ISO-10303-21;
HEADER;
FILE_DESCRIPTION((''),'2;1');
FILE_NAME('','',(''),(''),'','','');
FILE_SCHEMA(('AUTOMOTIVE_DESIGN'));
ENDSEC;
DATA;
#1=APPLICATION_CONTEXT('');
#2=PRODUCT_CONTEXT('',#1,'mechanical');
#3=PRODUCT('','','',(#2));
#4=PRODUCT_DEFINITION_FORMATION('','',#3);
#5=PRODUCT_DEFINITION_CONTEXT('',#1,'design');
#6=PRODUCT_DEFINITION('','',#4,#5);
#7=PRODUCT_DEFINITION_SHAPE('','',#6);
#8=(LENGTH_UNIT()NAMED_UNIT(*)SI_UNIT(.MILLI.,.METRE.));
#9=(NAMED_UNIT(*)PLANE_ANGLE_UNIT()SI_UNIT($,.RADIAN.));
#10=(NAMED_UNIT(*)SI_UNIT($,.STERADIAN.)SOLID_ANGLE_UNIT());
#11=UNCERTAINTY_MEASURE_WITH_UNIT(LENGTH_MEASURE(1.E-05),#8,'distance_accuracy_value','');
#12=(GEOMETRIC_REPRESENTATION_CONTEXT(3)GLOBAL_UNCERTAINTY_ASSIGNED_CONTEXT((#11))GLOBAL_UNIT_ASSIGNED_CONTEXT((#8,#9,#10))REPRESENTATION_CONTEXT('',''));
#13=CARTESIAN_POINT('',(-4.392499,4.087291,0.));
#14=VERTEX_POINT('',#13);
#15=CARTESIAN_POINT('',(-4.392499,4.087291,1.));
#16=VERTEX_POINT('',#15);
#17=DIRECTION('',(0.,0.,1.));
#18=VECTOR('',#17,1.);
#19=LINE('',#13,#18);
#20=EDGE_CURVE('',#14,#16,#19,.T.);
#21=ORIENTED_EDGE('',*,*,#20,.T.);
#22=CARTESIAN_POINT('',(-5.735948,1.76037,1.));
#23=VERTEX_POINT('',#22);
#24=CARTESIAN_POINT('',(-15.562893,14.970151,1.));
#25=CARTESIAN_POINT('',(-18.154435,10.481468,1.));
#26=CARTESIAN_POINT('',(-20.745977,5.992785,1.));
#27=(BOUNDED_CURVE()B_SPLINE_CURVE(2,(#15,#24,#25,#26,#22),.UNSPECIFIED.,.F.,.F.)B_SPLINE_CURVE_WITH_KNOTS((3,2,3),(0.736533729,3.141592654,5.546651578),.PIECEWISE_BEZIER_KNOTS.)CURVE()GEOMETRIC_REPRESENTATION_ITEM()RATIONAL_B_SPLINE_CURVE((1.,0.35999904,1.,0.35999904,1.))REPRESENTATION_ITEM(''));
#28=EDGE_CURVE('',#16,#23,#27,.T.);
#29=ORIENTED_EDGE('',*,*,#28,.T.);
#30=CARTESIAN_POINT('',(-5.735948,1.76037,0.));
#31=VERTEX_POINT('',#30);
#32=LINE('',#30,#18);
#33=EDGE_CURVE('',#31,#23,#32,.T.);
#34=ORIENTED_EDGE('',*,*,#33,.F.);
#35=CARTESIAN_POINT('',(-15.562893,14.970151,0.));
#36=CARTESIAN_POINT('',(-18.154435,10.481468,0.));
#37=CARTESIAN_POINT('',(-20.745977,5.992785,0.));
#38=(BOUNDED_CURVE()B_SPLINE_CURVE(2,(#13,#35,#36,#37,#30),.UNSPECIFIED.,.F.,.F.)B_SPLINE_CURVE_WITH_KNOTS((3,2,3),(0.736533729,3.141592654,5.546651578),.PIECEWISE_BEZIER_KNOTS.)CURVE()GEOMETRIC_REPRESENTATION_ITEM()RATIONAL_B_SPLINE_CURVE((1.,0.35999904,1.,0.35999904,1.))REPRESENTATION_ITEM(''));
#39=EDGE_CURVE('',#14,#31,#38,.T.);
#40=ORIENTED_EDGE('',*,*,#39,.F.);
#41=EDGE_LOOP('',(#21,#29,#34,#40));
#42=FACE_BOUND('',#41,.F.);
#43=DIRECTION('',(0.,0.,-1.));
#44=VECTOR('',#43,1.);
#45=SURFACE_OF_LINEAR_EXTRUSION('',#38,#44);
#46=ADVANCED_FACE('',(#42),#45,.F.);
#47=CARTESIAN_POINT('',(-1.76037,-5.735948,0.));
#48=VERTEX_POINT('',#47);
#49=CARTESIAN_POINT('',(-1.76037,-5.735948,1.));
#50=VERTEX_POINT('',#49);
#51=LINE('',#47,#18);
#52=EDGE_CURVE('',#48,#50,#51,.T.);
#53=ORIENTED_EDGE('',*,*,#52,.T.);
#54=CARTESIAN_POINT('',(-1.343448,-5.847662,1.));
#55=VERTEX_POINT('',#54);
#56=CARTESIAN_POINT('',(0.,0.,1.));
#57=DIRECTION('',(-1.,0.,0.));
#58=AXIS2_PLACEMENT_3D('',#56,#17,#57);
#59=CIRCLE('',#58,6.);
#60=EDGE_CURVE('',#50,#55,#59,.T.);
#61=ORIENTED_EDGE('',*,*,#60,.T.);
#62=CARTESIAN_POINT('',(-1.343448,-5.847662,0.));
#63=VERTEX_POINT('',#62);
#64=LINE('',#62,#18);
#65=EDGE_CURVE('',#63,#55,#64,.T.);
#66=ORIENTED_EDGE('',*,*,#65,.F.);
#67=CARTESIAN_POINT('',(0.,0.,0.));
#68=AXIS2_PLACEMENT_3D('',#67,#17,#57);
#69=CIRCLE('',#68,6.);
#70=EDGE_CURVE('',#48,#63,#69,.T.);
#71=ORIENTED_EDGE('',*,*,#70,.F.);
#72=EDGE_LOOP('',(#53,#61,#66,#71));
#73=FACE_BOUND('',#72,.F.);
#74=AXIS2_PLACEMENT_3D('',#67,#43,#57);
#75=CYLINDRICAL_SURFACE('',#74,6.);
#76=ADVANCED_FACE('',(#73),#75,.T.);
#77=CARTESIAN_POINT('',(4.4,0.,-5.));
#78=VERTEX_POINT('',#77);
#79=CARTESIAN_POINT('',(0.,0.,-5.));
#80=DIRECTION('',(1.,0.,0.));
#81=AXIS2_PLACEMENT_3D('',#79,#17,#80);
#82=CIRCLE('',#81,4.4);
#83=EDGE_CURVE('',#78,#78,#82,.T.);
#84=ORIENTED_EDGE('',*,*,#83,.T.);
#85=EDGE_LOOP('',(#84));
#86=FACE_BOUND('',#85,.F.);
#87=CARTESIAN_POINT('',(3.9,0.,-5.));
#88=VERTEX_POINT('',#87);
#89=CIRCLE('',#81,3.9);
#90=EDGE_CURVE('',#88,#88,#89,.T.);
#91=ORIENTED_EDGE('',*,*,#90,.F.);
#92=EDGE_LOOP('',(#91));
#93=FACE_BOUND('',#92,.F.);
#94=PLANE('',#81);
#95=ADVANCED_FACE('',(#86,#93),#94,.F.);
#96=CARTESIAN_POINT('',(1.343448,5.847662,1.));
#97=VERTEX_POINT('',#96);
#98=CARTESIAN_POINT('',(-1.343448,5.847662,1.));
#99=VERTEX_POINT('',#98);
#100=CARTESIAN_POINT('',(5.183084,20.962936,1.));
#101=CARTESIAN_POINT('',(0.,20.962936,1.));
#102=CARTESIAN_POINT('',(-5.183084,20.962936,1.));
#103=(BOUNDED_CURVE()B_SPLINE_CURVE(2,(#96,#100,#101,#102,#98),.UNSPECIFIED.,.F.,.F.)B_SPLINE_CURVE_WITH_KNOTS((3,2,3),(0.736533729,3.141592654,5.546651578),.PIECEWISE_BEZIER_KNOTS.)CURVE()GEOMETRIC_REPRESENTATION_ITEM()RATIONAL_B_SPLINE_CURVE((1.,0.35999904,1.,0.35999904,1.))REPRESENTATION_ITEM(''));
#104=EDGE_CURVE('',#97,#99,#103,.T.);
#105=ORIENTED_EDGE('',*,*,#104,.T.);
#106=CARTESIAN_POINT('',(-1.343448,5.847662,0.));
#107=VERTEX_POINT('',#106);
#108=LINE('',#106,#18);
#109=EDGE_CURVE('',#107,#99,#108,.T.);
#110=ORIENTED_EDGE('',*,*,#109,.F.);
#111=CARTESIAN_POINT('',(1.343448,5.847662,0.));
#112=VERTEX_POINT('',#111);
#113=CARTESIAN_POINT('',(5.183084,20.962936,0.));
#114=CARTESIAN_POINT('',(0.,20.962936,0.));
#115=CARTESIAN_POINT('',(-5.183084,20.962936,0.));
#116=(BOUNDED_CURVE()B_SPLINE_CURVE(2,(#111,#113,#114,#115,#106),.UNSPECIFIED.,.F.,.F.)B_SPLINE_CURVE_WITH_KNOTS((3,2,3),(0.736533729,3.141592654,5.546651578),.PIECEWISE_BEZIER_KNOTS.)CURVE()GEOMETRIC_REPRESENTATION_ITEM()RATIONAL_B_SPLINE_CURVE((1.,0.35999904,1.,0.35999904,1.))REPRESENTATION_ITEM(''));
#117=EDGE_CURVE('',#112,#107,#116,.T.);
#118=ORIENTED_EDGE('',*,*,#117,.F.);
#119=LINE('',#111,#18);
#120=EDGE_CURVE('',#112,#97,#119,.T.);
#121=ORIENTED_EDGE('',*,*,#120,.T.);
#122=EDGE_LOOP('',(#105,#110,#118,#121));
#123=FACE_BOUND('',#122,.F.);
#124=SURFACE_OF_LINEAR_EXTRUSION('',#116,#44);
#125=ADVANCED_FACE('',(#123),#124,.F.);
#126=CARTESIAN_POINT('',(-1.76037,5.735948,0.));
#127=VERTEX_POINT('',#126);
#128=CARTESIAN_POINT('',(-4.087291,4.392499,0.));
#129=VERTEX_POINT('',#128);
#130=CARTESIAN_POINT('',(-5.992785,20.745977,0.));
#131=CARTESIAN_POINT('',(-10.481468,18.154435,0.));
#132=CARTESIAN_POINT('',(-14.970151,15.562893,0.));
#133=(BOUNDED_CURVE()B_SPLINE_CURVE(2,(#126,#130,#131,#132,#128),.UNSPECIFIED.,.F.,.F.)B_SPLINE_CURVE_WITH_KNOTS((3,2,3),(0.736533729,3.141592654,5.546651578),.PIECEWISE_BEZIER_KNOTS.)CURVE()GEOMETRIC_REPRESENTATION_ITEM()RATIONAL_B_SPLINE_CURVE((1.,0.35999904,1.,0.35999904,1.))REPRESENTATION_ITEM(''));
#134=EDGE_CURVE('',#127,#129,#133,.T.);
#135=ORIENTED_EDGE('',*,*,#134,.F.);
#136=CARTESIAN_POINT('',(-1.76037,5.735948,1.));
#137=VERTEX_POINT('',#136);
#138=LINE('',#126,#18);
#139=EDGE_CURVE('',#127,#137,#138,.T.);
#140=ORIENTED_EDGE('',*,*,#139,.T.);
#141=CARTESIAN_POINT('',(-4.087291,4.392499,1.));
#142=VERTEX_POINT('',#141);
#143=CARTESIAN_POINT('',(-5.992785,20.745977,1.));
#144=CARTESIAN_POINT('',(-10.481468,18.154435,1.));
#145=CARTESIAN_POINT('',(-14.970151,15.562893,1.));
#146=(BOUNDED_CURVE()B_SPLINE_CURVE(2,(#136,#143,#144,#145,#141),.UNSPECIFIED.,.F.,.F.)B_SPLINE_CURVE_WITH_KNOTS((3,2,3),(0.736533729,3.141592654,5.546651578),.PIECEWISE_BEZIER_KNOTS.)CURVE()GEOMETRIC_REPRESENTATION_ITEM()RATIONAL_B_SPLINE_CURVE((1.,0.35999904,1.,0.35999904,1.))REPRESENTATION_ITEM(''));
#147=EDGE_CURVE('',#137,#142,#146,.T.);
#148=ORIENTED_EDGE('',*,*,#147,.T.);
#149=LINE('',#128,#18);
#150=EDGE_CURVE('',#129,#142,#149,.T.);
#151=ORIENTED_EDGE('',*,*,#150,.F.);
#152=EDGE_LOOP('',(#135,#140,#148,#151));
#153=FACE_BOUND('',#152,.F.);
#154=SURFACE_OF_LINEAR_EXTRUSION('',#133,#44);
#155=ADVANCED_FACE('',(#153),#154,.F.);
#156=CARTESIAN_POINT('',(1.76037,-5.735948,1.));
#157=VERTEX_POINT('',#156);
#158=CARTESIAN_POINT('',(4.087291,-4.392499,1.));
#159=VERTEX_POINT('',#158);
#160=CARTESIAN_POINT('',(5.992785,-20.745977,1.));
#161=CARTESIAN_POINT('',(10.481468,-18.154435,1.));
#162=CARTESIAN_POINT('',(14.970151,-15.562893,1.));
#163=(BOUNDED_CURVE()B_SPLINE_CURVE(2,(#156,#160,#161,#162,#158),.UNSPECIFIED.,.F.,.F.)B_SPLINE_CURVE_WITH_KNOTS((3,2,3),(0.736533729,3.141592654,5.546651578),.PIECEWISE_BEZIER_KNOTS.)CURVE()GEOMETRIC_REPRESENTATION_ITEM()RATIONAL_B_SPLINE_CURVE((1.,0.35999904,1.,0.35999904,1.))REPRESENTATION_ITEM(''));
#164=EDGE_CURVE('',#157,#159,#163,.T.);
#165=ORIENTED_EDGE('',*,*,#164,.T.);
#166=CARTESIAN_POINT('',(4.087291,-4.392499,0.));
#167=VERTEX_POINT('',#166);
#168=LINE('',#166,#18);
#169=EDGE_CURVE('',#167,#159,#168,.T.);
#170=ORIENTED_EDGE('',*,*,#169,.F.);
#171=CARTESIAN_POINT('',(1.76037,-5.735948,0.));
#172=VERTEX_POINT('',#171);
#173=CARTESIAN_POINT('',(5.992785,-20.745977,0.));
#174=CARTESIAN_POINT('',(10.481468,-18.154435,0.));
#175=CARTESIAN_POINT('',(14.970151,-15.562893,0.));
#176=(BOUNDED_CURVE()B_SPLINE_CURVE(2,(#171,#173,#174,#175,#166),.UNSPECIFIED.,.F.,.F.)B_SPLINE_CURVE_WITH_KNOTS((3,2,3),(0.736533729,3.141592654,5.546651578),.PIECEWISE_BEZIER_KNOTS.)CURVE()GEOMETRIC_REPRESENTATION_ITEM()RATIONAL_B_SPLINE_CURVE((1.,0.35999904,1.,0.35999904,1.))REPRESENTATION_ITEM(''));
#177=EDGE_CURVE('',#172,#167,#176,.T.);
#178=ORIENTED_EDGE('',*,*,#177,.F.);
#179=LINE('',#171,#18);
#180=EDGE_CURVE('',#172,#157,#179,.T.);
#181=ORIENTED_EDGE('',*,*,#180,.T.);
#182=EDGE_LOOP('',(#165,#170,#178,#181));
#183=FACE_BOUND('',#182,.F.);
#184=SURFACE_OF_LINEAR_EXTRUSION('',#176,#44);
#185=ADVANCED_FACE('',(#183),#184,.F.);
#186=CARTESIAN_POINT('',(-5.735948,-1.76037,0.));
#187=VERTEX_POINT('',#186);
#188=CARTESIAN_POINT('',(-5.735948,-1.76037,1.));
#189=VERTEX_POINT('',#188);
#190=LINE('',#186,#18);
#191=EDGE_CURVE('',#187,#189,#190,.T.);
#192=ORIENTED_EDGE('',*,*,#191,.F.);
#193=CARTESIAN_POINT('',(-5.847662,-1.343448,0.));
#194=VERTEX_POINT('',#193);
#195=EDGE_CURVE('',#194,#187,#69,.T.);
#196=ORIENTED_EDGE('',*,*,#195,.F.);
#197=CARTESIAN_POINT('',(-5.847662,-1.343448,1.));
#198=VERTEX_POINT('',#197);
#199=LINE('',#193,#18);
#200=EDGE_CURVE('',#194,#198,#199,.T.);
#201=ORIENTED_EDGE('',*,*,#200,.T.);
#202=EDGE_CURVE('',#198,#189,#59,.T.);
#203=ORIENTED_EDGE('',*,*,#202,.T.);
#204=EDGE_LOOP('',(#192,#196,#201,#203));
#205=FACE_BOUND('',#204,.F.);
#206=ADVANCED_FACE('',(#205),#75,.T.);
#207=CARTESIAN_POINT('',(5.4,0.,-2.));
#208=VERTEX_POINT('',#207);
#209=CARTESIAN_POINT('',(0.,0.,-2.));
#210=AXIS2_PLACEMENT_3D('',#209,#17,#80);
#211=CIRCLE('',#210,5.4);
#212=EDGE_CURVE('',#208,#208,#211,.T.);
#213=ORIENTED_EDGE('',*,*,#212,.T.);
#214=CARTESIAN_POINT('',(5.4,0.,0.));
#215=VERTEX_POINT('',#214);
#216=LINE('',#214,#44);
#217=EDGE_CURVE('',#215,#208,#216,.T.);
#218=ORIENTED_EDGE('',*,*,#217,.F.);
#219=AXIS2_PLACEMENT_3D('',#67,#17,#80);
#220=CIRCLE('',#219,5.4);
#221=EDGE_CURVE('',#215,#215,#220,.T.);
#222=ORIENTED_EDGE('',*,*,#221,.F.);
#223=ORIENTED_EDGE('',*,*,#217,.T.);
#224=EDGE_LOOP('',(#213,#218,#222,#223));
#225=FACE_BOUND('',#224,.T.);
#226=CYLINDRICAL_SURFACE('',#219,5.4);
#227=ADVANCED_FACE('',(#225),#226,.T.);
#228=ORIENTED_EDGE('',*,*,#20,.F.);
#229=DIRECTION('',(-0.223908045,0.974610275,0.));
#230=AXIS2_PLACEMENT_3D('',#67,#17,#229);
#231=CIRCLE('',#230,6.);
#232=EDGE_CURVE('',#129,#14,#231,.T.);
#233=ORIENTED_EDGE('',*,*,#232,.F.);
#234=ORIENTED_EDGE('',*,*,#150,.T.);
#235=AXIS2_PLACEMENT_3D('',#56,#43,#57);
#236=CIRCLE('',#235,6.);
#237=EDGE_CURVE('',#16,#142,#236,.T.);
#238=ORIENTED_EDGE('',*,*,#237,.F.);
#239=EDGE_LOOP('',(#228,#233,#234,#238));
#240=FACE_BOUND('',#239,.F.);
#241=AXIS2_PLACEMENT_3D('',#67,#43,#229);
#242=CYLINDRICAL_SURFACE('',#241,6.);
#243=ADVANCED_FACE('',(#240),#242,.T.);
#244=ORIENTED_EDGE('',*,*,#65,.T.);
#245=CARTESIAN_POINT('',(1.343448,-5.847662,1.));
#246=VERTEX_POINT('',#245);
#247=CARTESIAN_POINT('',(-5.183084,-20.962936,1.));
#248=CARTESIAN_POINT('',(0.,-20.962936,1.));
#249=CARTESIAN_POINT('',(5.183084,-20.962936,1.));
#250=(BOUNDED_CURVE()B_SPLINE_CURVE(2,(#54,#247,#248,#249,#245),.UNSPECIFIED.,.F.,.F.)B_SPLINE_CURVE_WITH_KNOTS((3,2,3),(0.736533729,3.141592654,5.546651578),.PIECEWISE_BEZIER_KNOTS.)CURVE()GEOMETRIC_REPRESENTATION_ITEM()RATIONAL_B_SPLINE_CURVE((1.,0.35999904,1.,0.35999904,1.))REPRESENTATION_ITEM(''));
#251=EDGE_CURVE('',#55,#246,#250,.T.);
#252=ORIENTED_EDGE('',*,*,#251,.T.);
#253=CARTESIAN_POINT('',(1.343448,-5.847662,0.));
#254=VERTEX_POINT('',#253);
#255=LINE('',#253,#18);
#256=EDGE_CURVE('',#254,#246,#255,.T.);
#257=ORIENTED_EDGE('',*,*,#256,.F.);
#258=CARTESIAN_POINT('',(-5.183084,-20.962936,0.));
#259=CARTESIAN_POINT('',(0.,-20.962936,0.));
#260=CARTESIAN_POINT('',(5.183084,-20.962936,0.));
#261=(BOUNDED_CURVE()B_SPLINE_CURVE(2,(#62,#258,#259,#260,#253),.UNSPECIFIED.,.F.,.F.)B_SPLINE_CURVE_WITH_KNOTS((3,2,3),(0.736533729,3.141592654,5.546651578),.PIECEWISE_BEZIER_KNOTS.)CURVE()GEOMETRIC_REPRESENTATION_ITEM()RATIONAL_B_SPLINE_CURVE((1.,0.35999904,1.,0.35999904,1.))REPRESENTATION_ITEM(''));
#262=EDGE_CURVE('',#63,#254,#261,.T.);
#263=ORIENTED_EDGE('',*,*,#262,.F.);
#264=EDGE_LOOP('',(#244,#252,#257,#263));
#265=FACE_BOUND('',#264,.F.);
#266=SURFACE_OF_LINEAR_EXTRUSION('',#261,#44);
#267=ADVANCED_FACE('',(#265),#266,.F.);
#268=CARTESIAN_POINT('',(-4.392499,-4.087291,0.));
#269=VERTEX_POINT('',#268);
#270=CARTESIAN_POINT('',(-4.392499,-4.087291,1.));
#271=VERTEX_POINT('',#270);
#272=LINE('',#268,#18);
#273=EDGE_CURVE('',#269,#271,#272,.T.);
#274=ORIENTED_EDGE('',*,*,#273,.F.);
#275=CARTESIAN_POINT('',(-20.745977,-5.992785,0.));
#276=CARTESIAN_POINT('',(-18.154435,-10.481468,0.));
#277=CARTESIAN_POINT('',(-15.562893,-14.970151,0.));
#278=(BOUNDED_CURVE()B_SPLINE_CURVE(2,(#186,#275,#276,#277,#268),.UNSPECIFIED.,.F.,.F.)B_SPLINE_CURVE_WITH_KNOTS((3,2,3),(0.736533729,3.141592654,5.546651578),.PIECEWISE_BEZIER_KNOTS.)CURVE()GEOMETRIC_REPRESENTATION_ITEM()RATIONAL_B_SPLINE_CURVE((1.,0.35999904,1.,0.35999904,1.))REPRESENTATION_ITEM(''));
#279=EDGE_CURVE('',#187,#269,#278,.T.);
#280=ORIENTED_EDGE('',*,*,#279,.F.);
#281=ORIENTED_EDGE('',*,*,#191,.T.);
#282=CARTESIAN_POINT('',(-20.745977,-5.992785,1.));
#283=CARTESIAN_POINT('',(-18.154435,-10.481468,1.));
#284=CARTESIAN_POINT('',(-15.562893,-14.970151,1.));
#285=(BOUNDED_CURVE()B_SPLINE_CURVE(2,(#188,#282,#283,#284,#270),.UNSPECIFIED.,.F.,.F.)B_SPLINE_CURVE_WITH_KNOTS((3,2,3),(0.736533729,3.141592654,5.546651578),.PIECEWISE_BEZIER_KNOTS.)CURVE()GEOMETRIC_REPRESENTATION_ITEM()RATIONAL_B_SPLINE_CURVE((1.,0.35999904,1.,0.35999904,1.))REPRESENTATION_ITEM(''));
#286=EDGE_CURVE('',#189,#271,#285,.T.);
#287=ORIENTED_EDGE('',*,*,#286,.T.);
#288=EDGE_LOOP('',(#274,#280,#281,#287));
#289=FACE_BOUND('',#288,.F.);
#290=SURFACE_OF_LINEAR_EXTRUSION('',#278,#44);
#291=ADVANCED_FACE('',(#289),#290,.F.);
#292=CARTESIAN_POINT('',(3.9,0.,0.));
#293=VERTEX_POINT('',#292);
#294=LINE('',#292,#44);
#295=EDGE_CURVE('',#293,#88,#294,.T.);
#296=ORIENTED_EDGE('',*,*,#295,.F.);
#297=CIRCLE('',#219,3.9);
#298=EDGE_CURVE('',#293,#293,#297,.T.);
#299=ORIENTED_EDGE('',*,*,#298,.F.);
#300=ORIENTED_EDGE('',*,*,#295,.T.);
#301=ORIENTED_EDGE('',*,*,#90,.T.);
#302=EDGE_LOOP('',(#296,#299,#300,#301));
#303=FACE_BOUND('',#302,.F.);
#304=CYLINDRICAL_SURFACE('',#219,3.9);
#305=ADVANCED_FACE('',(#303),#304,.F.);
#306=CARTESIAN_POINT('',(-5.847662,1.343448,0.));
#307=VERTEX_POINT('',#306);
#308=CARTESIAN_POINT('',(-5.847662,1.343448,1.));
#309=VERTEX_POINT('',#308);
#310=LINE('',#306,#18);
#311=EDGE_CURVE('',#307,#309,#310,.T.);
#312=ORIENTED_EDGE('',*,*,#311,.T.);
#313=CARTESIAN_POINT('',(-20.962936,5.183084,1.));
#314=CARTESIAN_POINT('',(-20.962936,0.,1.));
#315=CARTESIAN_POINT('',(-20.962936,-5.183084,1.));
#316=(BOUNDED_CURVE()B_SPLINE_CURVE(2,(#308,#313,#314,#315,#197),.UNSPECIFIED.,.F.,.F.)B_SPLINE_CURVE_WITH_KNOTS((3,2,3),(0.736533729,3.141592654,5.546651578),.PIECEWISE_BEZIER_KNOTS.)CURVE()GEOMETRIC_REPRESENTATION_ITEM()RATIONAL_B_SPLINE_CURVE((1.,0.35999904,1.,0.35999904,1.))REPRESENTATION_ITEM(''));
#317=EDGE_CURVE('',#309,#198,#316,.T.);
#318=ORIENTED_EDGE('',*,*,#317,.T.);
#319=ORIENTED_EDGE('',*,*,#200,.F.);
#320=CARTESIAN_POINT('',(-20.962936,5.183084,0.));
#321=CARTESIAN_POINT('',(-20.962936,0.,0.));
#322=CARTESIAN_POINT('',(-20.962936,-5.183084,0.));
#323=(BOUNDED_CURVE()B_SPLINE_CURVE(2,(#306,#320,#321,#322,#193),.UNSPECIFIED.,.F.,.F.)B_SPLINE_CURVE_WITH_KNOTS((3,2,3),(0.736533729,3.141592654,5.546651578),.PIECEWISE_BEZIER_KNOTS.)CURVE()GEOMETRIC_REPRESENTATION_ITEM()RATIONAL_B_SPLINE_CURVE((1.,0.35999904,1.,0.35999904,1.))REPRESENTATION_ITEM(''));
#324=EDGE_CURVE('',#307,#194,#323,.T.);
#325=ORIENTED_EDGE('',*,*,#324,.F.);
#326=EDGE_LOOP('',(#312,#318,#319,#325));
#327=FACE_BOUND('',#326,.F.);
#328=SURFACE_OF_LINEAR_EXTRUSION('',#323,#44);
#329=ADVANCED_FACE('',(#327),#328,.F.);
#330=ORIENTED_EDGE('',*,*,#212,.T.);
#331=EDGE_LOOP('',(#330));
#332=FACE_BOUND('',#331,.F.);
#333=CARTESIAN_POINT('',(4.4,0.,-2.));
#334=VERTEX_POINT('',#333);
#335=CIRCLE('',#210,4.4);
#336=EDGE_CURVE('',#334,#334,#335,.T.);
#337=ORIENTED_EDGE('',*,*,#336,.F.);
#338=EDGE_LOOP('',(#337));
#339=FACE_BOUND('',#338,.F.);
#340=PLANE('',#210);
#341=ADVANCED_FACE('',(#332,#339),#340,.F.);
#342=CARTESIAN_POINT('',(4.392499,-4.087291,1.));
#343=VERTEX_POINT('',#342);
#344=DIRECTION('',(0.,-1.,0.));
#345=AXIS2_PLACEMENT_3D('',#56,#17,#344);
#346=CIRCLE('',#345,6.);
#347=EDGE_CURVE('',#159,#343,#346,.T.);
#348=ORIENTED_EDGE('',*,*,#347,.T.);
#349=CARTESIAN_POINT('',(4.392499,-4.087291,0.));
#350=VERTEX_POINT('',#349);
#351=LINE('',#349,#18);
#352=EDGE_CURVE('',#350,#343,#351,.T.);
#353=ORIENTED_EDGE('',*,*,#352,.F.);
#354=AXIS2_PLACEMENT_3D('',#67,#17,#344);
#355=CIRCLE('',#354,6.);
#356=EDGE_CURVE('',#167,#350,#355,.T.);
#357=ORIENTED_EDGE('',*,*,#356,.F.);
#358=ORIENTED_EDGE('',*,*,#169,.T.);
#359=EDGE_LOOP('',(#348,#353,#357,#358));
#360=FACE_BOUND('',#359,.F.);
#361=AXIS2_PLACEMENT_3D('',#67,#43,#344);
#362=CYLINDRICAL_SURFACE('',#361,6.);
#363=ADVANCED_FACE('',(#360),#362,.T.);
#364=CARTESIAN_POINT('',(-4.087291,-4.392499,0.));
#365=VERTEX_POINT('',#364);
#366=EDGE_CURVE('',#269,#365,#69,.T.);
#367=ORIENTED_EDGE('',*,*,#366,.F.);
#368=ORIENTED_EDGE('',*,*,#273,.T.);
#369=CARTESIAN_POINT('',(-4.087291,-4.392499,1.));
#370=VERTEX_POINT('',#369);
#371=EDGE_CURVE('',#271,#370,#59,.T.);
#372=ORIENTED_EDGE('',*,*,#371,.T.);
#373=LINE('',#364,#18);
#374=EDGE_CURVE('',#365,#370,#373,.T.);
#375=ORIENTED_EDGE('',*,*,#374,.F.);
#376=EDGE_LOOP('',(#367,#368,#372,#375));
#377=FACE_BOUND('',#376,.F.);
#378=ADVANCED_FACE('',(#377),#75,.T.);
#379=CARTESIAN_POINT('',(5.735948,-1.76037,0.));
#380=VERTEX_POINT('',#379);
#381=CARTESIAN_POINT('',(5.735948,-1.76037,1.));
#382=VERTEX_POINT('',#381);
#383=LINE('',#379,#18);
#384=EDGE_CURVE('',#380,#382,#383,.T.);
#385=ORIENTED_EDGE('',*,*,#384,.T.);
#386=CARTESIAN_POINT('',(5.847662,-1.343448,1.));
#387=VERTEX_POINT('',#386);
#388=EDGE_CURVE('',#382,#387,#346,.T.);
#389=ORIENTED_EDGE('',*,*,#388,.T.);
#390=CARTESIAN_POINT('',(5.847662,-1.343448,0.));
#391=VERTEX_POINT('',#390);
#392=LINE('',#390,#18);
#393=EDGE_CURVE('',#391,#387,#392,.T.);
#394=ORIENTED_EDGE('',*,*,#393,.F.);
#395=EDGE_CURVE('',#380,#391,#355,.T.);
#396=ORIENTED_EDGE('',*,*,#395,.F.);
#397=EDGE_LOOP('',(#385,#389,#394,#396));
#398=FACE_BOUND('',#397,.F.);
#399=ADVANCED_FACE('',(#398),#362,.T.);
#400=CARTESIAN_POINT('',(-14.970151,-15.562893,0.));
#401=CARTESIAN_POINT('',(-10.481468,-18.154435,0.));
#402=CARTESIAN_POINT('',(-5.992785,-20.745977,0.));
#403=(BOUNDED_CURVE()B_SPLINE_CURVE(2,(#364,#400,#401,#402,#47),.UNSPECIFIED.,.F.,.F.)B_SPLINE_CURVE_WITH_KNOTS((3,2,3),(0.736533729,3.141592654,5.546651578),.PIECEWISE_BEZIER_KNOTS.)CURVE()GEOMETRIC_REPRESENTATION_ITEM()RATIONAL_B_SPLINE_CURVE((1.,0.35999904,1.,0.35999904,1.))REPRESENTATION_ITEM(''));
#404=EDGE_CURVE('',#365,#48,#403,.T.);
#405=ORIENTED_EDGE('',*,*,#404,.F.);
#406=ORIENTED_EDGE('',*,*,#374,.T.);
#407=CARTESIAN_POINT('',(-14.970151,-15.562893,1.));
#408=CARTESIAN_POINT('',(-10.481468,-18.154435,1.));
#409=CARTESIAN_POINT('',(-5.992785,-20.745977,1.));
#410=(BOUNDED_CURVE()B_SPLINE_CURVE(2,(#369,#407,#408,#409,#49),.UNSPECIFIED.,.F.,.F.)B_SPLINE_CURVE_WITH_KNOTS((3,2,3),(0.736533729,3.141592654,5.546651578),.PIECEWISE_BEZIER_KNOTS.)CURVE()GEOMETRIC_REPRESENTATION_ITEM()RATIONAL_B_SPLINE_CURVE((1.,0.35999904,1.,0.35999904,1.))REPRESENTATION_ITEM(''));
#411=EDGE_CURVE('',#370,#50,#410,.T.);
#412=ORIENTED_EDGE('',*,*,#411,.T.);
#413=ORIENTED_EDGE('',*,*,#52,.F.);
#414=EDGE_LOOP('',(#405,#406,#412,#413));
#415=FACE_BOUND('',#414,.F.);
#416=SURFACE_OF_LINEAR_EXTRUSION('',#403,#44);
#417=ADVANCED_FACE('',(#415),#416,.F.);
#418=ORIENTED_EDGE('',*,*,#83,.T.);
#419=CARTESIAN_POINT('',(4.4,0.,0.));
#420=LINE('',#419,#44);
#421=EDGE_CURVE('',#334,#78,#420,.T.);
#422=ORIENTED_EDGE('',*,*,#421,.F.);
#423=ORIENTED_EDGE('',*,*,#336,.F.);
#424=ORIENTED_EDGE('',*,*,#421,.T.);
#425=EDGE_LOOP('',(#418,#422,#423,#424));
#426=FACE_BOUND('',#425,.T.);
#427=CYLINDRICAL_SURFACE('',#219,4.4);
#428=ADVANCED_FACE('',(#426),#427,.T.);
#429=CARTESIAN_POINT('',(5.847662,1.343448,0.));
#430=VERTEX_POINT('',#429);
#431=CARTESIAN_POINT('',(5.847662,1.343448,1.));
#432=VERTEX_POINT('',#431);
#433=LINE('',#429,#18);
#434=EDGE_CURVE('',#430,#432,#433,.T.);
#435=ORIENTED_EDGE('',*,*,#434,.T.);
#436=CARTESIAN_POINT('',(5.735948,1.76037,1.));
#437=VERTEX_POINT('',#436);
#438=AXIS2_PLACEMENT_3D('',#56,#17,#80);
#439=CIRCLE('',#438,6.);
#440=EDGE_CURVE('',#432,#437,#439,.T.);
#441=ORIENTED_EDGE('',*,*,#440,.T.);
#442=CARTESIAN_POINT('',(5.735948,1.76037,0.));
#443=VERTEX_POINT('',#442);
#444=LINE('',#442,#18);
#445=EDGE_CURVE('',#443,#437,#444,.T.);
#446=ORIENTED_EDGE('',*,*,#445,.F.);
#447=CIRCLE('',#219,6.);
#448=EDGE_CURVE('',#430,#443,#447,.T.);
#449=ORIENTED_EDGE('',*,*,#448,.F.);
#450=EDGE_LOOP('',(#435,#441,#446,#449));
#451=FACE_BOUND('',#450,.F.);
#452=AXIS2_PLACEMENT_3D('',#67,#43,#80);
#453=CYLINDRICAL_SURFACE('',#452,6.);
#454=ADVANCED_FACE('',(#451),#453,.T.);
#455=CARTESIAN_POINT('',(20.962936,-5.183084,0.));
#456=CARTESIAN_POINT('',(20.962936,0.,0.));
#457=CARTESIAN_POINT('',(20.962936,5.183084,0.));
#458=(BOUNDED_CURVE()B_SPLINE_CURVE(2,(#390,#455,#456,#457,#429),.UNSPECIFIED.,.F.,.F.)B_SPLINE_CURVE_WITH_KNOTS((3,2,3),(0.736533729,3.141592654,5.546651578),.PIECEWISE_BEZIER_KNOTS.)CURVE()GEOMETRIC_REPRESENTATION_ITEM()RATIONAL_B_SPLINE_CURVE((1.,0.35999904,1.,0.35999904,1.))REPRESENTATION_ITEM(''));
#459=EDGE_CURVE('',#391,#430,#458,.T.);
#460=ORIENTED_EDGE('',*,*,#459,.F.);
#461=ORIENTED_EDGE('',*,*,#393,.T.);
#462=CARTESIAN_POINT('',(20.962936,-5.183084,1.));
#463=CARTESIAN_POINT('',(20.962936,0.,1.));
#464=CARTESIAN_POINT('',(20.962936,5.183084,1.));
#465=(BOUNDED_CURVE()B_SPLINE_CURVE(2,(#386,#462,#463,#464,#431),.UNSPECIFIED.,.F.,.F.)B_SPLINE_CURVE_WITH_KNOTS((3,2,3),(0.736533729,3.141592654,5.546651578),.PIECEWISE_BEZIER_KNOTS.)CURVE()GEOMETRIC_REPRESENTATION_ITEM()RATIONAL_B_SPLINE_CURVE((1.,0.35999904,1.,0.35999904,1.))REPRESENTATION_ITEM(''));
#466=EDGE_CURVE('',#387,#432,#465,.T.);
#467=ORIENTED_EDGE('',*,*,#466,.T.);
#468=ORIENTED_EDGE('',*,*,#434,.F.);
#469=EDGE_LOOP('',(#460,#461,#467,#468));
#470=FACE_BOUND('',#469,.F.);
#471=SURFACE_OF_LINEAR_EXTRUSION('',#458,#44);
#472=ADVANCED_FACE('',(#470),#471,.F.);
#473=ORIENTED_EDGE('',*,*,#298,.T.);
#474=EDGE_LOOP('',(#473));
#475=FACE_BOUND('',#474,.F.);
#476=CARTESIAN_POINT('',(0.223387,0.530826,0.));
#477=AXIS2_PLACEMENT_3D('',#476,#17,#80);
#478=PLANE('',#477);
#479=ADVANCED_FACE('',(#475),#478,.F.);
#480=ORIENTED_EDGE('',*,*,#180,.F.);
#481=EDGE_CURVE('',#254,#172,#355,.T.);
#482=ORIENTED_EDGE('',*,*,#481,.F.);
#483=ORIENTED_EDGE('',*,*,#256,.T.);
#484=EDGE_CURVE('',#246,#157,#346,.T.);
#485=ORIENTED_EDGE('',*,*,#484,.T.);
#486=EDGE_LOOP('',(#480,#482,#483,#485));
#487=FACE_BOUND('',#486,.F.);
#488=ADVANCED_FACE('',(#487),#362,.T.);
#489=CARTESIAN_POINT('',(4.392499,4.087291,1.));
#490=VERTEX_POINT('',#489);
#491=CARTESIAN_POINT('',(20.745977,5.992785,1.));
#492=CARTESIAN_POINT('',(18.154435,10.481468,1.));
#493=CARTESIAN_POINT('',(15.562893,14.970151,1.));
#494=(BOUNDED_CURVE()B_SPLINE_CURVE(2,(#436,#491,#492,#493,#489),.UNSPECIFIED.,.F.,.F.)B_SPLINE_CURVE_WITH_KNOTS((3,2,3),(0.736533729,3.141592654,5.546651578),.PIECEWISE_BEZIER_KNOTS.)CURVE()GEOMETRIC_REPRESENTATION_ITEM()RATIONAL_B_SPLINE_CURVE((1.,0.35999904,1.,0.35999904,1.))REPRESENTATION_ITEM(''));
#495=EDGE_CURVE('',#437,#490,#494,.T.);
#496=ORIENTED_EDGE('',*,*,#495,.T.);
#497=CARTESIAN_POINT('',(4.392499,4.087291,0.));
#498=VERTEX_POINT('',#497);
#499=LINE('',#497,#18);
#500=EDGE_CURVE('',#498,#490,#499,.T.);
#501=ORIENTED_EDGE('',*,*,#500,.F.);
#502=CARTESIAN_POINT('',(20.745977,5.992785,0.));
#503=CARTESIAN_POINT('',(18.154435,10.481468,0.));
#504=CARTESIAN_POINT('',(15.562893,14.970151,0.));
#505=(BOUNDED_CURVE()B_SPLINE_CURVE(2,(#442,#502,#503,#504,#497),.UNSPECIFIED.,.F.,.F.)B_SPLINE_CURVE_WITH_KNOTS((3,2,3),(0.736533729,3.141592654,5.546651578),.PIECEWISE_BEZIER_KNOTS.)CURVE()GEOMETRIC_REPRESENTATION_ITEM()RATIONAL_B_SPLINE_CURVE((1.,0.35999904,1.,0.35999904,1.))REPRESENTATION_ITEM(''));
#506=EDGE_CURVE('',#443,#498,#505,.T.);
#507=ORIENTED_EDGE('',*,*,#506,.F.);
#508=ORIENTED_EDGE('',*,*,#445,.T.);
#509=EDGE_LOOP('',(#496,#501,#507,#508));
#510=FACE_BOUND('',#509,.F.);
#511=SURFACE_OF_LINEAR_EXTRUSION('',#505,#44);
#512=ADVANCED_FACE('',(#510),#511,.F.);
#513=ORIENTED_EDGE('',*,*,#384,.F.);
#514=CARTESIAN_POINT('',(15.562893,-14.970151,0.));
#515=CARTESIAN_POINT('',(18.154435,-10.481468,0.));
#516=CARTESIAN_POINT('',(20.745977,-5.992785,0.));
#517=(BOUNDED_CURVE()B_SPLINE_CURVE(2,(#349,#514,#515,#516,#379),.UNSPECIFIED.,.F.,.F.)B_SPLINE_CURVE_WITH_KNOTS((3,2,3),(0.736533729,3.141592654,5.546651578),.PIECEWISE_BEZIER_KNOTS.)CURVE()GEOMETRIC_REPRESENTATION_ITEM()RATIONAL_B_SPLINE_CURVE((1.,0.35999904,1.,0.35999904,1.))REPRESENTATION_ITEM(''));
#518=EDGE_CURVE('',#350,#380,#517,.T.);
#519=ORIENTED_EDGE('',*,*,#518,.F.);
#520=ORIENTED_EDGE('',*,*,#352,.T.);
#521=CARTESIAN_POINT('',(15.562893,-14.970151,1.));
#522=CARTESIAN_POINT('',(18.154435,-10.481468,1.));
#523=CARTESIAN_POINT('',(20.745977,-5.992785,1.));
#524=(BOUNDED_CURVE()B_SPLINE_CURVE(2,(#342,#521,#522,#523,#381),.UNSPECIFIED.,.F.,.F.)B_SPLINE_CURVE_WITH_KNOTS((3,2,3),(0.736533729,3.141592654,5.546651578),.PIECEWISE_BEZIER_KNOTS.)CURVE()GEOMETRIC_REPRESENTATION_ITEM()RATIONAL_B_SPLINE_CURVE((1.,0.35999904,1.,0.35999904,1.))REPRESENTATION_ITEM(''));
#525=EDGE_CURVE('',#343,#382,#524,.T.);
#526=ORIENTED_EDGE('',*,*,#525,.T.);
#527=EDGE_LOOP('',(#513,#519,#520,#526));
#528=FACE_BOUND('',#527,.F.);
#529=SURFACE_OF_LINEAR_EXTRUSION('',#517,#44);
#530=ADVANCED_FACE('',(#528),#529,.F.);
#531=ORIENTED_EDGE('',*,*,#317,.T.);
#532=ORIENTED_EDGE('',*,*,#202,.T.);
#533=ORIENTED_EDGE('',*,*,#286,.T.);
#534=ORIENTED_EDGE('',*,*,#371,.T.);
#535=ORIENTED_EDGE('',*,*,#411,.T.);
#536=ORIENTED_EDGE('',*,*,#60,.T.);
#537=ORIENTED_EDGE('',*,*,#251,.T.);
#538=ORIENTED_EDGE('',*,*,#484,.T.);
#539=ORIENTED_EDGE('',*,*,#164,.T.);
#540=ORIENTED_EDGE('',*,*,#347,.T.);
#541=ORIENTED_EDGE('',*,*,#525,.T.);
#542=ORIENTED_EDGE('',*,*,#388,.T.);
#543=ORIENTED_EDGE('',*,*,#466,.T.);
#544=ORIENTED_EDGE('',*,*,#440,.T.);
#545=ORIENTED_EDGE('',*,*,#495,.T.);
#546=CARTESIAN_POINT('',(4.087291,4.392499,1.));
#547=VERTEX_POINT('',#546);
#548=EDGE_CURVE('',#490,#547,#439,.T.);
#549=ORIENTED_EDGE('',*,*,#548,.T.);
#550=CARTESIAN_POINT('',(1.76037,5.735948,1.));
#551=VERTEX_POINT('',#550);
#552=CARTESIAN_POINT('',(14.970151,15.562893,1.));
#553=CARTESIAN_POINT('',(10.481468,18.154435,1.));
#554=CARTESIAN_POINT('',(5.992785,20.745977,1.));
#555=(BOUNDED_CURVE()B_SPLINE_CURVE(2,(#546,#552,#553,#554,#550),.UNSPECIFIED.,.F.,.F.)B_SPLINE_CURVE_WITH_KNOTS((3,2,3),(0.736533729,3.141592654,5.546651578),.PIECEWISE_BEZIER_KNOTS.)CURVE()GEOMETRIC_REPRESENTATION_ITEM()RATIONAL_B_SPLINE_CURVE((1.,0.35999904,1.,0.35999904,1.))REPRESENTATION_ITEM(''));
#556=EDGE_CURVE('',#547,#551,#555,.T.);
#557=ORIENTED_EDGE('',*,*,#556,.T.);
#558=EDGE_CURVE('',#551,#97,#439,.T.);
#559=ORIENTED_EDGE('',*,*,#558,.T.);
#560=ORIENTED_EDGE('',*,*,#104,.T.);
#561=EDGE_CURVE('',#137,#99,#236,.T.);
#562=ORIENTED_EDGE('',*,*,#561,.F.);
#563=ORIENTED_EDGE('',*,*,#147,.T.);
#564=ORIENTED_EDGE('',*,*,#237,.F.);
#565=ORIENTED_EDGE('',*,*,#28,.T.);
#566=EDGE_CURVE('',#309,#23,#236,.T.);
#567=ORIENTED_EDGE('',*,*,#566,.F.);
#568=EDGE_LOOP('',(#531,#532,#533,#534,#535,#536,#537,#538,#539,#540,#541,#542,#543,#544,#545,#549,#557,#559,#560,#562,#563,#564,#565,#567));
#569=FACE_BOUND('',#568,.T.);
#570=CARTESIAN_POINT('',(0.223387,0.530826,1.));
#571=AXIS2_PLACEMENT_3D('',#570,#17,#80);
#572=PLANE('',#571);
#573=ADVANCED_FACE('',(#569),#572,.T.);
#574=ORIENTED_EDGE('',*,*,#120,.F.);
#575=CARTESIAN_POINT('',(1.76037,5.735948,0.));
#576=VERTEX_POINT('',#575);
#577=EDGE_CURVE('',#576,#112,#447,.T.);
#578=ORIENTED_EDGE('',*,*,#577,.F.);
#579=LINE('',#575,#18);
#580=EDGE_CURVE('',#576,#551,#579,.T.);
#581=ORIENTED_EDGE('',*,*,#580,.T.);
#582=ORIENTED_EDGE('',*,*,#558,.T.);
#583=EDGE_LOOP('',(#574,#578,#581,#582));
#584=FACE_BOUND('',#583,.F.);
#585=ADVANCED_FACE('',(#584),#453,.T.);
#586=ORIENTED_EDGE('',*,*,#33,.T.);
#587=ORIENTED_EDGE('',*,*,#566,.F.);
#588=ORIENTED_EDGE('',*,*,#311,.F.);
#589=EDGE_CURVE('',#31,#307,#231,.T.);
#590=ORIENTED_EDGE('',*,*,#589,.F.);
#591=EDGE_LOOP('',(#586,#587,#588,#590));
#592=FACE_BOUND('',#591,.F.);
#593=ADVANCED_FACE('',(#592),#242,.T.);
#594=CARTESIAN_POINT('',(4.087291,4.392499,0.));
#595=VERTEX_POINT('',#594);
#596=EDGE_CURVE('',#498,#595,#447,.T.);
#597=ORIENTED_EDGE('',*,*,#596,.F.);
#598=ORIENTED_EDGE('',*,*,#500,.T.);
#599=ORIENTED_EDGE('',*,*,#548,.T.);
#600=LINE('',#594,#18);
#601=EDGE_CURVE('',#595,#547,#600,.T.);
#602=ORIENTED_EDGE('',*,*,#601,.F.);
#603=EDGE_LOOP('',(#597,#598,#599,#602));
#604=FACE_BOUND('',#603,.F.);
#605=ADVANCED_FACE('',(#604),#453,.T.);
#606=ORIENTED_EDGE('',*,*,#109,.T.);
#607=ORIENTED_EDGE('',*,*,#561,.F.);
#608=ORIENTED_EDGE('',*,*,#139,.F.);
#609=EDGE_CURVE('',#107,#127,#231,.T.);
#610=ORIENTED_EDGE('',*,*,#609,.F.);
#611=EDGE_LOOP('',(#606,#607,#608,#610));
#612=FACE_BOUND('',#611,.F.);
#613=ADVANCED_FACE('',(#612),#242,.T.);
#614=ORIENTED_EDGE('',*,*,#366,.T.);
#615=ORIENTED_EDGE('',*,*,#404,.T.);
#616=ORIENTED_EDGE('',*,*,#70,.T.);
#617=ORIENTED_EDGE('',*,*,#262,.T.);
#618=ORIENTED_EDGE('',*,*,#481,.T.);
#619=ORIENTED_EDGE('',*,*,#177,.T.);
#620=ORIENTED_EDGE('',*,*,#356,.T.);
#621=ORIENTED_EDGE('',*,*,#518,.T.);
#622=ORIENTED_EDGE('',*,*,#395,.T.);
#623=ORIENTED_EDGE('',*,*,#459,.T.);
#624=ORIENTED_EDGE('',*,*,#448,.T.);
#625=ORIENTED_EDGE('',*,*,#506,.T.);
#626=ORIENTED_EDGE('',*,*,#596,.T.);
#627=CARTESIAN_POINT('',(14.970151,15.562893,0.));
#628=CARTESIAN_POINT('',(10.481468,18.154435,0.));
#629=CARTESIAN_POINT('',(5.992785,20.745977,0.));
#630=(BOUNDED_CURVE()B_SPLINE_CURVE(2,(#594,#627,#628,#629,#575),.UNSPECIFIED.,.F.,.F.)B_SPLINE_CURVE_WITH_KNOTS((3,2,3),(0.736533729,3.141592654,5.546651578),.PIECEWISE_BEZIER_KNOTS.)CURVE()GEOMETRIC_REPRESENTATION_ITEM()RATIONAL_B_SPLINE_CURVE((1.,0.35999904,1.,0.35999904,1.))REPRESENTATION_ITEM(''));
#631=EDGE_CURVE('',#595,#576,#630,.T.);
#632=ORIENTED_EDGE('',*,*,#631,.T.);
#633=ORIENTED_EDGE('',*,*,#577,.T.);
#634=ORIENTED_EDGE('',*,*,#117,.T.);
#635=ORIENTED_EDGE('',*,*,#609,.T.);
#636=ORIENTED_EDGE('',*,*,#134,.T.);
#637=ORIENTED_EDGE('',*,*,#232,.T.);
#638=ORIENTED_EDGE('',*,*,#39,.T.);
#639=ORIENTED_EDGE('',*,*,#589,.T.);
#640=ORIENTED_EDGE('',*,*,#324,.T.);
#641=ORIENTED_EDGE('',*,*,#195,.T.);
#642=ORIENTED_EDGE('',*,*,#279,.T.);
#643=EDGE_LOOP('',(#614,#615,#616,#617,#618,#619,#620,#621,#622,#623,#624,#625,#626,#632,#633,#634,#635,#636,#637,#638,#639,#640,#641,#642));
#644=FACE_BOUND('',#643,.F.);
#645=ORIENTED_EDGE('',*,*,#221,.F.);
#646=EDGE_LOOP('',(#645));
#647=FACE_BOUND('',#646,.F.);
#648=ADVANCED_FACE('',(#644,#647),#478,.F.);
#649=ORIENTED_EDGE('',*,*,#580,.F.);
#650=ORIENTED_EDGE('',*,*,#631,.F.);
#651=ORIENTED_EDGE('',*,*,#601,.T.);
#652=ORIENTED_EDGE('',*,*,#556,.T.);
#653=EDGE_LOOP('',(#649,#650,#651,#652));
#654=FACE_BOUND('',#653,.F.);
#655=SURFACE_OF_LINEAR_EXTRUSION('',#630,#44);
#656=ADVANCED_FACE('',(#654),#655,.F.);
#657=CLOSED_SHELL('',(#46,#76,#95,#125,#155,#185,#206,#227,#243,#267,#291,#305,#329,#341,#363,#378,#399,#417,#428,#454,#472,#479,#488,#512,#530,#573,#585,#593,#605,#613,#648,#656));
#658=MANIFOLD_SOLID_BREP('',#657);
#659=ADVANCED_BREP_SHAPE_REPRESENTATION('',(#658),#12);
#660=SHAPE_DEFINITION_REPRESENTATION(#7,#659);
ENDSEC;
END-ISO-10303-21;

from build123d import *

# Parameters (mm, degrees)
F1_DEPTH = 1
F3_COUNT = 12
F4_R     = 4.4
F4_R_2   = 3.9
F5_DEPTH = 5
F4_R_3   = 5.4
F6_DEPTH = 2


with BuildPart() as f1:
    # F0 (on Top) → F1 (new body)
    with BuildSketch(Plane.XY):
        with BuildLine():
            ThreePointArc((-1.3434482678, 5.8476616482), (-3.7376001922, -4.6936494121), (6, 0))
            ThreePointArc((6, 0), (4.6936494121, 3.7376001922), (1.3434482678, 5.8476616482))
            add(Edge.make_bspline(
                [(0, 3.5970555618), (0.771741269, 3.5970555618), (1.3434482678, 5.8476616482)],
                knots=[0, 0, 0, 0.7365337291, 0.7365337291, 0.7365337291], degree=2, weights=[1, 0.9329526736, 1]))
            add(Edge.make_bspline(
                [(-1.3434482678, 5.8476616482), (-0.771741269, 3.5970555618), (0, 3.5970555618)],
                knots=[5.5466515781, 5.5466515781, 5.5466515781, 6.2831853072, 6.2831853072, 6.2831853072], degree=2, weights=[1, 0.9329526736, 1]))
        make_face()
        with BuildLine():
            ThreePointArc((-1.3434482678, 5.8476616482), (0, 6), (1.3434482678, 5.8476616482))
            add(Edge.make_bspline(
                [(1.3434482678, 5.8476616482), (5.1830842287, 20.9629358724), (0, 20.9629358724), (-5.1830842287, 20.9629358724), (-1.3434482678, 5.8476616482)],
                knots=[0.7365337291, 0.7365337291, 0.7365337291, 3.1415926536, 3.1415926536, 5.5466515781, 5.5466515781, 5.5466515781], degree=2, weights=[1, 0.3599990401, 1, 0.3599990401, 1]))
        make_face()
        with BuildLine():
            add(Edge.make_bspline(
                [(0, 3.5970555618), (0.771741269, 3.5970555618), (1.3434482678, 5.8476616482)],
                knots=[0, 0, 0, 0.7365337291, 0.7365337291, 0.7365337291], degree=2, weights=[1, 0.9329526736, 1]))
            ThreePointArc((1.3434482678, 5.8476616482), (0, 6), (-1.3434482678, 5.8476616482))
            add(Edge.make_bspline(
                [(-1.3434482678, 5.8476616482), (-0.771741269, 3.5970555618), (0, 3.5970555618)],
                knots=[5.5466515781, 5.5466515781, 5.5466515781, 6.2831853072, 6.2831853072, 6.2831853072], degree=2, weights=[1, 0.9329526736, 1]))
        make_face()
    extrude(amount=F1_DEPTH)


with BuildPart() as f3_1:
    # F3: instance of F1
    add(f1.part.rotate(Axis((0, 0, 8.796742186), (0, 0, -1)), 1 * 360 / F3_COUNT))


with BuildPart() as f3_2:
    # F3: instance of F1
    add(f1.part.rotate(Axis((0, 0, 8.796742186), (0, 0, -1)), 2 * 360 / F3_COUNT))


with BuildPart() as f3_3:
    # F3: instance of F1
    add(f1.part.rotate(Axis((0, 0, 8.796742186), (0, 0, -1)), 3 * 360 / F3_COUNT))


with BuildPart() as f3_4:
    # F3: instance of F1
    add(f1.part.rotate(Axis((0, 0, 8.796742186), (0, 0, -1)), 4 * 360 / F3_COUNT))


with BuildPart() as f3_5:
    # F3: instance of F1
    add(f1.part.rotate(Axis((0, 0, 8.796742186), (0, 0, -1)), 5 * 360 / F3_COUNT))


with BuildPart() as f3_6:
    # F3: instance of F1
    add(f1.part.rotate(Axis((0, 0, 8.796742186), (0, 0, -1)), 6 * 360 / F3_COUNT))


with BuildPart() as f3_7:
    # F3: instance of F1
    add(f1.part.rotate(Axis((0, 0, 8.796742186), (0, 0, -1)), 7 * 360 / F3_COUNT))


with BuildPart() as f3_8:
    # F3: instance of F1
    add(f1.part.rotate(Axis((0, 0, 8.796742186), (0, 0, -1)), 8 * 360 / F3_COUNT))


with BuildPart() as f3_9:
    # F3: instance of F1
    add(f1.part.rotate(Axis((0, 0, 8.796742186), (0, 0, -1)), 9 * 360 / F3_COUNT))


with BuildPart() as f3_10:
    # F3: instance of F1
    add(f1.part.rotate(Axis((0, 0, 8.796742186), (0, 0, -1)), 10 * 360 / F3_COUNT))


with BuildPart() as f3_11:
    # F3: instance of F1
    add(f1.part.rotate(Axis((0, 0, 8.796742186), (0, 0, -1)), 11 * 360 / F3_COUNT))


with BuildPart() as f1_1:
    add(f1.part)

    add(f3_1.part)  # F5 merges F3_1

    add(f3_2.part)  # F5 merges F3_2

    add(f3_3.part)  # F5 merges F3_3

    add(f3_4.part)  # F5 merges F3_4

    add(f3_5.part)  # F5 merges F3_5

    add(f3_6.part)  # F5 merges F3_6

    add(f3_7.part)  # F5 merges F3_7

    add(f3_8.part)  # F5 merges F3_8

    add(f3_9.part)  # F5 merges F3_9

    add(f3_10.part)  # F5 merges F3_10

    add(f3_11.part)  # F5 merges F3_11
    # F4 (on Top) → F5 (join)
    with BuildSketch(Plane.XY):
        Circle(F4_R)
        Circle(F4_R_2, mode=Mode.SUBTRACT)
    extrude(amount=-F5_DEPTH)

    # F4 (on Top) → F6 (join)
    with BuildSketch(Plane.XY):
        Circle(F4_R_3)
        Circle(F4_R, mode=Mode.SUBTRACT)
    extrude(amount=-F6_DEPTH)


solid = f1_1.part
